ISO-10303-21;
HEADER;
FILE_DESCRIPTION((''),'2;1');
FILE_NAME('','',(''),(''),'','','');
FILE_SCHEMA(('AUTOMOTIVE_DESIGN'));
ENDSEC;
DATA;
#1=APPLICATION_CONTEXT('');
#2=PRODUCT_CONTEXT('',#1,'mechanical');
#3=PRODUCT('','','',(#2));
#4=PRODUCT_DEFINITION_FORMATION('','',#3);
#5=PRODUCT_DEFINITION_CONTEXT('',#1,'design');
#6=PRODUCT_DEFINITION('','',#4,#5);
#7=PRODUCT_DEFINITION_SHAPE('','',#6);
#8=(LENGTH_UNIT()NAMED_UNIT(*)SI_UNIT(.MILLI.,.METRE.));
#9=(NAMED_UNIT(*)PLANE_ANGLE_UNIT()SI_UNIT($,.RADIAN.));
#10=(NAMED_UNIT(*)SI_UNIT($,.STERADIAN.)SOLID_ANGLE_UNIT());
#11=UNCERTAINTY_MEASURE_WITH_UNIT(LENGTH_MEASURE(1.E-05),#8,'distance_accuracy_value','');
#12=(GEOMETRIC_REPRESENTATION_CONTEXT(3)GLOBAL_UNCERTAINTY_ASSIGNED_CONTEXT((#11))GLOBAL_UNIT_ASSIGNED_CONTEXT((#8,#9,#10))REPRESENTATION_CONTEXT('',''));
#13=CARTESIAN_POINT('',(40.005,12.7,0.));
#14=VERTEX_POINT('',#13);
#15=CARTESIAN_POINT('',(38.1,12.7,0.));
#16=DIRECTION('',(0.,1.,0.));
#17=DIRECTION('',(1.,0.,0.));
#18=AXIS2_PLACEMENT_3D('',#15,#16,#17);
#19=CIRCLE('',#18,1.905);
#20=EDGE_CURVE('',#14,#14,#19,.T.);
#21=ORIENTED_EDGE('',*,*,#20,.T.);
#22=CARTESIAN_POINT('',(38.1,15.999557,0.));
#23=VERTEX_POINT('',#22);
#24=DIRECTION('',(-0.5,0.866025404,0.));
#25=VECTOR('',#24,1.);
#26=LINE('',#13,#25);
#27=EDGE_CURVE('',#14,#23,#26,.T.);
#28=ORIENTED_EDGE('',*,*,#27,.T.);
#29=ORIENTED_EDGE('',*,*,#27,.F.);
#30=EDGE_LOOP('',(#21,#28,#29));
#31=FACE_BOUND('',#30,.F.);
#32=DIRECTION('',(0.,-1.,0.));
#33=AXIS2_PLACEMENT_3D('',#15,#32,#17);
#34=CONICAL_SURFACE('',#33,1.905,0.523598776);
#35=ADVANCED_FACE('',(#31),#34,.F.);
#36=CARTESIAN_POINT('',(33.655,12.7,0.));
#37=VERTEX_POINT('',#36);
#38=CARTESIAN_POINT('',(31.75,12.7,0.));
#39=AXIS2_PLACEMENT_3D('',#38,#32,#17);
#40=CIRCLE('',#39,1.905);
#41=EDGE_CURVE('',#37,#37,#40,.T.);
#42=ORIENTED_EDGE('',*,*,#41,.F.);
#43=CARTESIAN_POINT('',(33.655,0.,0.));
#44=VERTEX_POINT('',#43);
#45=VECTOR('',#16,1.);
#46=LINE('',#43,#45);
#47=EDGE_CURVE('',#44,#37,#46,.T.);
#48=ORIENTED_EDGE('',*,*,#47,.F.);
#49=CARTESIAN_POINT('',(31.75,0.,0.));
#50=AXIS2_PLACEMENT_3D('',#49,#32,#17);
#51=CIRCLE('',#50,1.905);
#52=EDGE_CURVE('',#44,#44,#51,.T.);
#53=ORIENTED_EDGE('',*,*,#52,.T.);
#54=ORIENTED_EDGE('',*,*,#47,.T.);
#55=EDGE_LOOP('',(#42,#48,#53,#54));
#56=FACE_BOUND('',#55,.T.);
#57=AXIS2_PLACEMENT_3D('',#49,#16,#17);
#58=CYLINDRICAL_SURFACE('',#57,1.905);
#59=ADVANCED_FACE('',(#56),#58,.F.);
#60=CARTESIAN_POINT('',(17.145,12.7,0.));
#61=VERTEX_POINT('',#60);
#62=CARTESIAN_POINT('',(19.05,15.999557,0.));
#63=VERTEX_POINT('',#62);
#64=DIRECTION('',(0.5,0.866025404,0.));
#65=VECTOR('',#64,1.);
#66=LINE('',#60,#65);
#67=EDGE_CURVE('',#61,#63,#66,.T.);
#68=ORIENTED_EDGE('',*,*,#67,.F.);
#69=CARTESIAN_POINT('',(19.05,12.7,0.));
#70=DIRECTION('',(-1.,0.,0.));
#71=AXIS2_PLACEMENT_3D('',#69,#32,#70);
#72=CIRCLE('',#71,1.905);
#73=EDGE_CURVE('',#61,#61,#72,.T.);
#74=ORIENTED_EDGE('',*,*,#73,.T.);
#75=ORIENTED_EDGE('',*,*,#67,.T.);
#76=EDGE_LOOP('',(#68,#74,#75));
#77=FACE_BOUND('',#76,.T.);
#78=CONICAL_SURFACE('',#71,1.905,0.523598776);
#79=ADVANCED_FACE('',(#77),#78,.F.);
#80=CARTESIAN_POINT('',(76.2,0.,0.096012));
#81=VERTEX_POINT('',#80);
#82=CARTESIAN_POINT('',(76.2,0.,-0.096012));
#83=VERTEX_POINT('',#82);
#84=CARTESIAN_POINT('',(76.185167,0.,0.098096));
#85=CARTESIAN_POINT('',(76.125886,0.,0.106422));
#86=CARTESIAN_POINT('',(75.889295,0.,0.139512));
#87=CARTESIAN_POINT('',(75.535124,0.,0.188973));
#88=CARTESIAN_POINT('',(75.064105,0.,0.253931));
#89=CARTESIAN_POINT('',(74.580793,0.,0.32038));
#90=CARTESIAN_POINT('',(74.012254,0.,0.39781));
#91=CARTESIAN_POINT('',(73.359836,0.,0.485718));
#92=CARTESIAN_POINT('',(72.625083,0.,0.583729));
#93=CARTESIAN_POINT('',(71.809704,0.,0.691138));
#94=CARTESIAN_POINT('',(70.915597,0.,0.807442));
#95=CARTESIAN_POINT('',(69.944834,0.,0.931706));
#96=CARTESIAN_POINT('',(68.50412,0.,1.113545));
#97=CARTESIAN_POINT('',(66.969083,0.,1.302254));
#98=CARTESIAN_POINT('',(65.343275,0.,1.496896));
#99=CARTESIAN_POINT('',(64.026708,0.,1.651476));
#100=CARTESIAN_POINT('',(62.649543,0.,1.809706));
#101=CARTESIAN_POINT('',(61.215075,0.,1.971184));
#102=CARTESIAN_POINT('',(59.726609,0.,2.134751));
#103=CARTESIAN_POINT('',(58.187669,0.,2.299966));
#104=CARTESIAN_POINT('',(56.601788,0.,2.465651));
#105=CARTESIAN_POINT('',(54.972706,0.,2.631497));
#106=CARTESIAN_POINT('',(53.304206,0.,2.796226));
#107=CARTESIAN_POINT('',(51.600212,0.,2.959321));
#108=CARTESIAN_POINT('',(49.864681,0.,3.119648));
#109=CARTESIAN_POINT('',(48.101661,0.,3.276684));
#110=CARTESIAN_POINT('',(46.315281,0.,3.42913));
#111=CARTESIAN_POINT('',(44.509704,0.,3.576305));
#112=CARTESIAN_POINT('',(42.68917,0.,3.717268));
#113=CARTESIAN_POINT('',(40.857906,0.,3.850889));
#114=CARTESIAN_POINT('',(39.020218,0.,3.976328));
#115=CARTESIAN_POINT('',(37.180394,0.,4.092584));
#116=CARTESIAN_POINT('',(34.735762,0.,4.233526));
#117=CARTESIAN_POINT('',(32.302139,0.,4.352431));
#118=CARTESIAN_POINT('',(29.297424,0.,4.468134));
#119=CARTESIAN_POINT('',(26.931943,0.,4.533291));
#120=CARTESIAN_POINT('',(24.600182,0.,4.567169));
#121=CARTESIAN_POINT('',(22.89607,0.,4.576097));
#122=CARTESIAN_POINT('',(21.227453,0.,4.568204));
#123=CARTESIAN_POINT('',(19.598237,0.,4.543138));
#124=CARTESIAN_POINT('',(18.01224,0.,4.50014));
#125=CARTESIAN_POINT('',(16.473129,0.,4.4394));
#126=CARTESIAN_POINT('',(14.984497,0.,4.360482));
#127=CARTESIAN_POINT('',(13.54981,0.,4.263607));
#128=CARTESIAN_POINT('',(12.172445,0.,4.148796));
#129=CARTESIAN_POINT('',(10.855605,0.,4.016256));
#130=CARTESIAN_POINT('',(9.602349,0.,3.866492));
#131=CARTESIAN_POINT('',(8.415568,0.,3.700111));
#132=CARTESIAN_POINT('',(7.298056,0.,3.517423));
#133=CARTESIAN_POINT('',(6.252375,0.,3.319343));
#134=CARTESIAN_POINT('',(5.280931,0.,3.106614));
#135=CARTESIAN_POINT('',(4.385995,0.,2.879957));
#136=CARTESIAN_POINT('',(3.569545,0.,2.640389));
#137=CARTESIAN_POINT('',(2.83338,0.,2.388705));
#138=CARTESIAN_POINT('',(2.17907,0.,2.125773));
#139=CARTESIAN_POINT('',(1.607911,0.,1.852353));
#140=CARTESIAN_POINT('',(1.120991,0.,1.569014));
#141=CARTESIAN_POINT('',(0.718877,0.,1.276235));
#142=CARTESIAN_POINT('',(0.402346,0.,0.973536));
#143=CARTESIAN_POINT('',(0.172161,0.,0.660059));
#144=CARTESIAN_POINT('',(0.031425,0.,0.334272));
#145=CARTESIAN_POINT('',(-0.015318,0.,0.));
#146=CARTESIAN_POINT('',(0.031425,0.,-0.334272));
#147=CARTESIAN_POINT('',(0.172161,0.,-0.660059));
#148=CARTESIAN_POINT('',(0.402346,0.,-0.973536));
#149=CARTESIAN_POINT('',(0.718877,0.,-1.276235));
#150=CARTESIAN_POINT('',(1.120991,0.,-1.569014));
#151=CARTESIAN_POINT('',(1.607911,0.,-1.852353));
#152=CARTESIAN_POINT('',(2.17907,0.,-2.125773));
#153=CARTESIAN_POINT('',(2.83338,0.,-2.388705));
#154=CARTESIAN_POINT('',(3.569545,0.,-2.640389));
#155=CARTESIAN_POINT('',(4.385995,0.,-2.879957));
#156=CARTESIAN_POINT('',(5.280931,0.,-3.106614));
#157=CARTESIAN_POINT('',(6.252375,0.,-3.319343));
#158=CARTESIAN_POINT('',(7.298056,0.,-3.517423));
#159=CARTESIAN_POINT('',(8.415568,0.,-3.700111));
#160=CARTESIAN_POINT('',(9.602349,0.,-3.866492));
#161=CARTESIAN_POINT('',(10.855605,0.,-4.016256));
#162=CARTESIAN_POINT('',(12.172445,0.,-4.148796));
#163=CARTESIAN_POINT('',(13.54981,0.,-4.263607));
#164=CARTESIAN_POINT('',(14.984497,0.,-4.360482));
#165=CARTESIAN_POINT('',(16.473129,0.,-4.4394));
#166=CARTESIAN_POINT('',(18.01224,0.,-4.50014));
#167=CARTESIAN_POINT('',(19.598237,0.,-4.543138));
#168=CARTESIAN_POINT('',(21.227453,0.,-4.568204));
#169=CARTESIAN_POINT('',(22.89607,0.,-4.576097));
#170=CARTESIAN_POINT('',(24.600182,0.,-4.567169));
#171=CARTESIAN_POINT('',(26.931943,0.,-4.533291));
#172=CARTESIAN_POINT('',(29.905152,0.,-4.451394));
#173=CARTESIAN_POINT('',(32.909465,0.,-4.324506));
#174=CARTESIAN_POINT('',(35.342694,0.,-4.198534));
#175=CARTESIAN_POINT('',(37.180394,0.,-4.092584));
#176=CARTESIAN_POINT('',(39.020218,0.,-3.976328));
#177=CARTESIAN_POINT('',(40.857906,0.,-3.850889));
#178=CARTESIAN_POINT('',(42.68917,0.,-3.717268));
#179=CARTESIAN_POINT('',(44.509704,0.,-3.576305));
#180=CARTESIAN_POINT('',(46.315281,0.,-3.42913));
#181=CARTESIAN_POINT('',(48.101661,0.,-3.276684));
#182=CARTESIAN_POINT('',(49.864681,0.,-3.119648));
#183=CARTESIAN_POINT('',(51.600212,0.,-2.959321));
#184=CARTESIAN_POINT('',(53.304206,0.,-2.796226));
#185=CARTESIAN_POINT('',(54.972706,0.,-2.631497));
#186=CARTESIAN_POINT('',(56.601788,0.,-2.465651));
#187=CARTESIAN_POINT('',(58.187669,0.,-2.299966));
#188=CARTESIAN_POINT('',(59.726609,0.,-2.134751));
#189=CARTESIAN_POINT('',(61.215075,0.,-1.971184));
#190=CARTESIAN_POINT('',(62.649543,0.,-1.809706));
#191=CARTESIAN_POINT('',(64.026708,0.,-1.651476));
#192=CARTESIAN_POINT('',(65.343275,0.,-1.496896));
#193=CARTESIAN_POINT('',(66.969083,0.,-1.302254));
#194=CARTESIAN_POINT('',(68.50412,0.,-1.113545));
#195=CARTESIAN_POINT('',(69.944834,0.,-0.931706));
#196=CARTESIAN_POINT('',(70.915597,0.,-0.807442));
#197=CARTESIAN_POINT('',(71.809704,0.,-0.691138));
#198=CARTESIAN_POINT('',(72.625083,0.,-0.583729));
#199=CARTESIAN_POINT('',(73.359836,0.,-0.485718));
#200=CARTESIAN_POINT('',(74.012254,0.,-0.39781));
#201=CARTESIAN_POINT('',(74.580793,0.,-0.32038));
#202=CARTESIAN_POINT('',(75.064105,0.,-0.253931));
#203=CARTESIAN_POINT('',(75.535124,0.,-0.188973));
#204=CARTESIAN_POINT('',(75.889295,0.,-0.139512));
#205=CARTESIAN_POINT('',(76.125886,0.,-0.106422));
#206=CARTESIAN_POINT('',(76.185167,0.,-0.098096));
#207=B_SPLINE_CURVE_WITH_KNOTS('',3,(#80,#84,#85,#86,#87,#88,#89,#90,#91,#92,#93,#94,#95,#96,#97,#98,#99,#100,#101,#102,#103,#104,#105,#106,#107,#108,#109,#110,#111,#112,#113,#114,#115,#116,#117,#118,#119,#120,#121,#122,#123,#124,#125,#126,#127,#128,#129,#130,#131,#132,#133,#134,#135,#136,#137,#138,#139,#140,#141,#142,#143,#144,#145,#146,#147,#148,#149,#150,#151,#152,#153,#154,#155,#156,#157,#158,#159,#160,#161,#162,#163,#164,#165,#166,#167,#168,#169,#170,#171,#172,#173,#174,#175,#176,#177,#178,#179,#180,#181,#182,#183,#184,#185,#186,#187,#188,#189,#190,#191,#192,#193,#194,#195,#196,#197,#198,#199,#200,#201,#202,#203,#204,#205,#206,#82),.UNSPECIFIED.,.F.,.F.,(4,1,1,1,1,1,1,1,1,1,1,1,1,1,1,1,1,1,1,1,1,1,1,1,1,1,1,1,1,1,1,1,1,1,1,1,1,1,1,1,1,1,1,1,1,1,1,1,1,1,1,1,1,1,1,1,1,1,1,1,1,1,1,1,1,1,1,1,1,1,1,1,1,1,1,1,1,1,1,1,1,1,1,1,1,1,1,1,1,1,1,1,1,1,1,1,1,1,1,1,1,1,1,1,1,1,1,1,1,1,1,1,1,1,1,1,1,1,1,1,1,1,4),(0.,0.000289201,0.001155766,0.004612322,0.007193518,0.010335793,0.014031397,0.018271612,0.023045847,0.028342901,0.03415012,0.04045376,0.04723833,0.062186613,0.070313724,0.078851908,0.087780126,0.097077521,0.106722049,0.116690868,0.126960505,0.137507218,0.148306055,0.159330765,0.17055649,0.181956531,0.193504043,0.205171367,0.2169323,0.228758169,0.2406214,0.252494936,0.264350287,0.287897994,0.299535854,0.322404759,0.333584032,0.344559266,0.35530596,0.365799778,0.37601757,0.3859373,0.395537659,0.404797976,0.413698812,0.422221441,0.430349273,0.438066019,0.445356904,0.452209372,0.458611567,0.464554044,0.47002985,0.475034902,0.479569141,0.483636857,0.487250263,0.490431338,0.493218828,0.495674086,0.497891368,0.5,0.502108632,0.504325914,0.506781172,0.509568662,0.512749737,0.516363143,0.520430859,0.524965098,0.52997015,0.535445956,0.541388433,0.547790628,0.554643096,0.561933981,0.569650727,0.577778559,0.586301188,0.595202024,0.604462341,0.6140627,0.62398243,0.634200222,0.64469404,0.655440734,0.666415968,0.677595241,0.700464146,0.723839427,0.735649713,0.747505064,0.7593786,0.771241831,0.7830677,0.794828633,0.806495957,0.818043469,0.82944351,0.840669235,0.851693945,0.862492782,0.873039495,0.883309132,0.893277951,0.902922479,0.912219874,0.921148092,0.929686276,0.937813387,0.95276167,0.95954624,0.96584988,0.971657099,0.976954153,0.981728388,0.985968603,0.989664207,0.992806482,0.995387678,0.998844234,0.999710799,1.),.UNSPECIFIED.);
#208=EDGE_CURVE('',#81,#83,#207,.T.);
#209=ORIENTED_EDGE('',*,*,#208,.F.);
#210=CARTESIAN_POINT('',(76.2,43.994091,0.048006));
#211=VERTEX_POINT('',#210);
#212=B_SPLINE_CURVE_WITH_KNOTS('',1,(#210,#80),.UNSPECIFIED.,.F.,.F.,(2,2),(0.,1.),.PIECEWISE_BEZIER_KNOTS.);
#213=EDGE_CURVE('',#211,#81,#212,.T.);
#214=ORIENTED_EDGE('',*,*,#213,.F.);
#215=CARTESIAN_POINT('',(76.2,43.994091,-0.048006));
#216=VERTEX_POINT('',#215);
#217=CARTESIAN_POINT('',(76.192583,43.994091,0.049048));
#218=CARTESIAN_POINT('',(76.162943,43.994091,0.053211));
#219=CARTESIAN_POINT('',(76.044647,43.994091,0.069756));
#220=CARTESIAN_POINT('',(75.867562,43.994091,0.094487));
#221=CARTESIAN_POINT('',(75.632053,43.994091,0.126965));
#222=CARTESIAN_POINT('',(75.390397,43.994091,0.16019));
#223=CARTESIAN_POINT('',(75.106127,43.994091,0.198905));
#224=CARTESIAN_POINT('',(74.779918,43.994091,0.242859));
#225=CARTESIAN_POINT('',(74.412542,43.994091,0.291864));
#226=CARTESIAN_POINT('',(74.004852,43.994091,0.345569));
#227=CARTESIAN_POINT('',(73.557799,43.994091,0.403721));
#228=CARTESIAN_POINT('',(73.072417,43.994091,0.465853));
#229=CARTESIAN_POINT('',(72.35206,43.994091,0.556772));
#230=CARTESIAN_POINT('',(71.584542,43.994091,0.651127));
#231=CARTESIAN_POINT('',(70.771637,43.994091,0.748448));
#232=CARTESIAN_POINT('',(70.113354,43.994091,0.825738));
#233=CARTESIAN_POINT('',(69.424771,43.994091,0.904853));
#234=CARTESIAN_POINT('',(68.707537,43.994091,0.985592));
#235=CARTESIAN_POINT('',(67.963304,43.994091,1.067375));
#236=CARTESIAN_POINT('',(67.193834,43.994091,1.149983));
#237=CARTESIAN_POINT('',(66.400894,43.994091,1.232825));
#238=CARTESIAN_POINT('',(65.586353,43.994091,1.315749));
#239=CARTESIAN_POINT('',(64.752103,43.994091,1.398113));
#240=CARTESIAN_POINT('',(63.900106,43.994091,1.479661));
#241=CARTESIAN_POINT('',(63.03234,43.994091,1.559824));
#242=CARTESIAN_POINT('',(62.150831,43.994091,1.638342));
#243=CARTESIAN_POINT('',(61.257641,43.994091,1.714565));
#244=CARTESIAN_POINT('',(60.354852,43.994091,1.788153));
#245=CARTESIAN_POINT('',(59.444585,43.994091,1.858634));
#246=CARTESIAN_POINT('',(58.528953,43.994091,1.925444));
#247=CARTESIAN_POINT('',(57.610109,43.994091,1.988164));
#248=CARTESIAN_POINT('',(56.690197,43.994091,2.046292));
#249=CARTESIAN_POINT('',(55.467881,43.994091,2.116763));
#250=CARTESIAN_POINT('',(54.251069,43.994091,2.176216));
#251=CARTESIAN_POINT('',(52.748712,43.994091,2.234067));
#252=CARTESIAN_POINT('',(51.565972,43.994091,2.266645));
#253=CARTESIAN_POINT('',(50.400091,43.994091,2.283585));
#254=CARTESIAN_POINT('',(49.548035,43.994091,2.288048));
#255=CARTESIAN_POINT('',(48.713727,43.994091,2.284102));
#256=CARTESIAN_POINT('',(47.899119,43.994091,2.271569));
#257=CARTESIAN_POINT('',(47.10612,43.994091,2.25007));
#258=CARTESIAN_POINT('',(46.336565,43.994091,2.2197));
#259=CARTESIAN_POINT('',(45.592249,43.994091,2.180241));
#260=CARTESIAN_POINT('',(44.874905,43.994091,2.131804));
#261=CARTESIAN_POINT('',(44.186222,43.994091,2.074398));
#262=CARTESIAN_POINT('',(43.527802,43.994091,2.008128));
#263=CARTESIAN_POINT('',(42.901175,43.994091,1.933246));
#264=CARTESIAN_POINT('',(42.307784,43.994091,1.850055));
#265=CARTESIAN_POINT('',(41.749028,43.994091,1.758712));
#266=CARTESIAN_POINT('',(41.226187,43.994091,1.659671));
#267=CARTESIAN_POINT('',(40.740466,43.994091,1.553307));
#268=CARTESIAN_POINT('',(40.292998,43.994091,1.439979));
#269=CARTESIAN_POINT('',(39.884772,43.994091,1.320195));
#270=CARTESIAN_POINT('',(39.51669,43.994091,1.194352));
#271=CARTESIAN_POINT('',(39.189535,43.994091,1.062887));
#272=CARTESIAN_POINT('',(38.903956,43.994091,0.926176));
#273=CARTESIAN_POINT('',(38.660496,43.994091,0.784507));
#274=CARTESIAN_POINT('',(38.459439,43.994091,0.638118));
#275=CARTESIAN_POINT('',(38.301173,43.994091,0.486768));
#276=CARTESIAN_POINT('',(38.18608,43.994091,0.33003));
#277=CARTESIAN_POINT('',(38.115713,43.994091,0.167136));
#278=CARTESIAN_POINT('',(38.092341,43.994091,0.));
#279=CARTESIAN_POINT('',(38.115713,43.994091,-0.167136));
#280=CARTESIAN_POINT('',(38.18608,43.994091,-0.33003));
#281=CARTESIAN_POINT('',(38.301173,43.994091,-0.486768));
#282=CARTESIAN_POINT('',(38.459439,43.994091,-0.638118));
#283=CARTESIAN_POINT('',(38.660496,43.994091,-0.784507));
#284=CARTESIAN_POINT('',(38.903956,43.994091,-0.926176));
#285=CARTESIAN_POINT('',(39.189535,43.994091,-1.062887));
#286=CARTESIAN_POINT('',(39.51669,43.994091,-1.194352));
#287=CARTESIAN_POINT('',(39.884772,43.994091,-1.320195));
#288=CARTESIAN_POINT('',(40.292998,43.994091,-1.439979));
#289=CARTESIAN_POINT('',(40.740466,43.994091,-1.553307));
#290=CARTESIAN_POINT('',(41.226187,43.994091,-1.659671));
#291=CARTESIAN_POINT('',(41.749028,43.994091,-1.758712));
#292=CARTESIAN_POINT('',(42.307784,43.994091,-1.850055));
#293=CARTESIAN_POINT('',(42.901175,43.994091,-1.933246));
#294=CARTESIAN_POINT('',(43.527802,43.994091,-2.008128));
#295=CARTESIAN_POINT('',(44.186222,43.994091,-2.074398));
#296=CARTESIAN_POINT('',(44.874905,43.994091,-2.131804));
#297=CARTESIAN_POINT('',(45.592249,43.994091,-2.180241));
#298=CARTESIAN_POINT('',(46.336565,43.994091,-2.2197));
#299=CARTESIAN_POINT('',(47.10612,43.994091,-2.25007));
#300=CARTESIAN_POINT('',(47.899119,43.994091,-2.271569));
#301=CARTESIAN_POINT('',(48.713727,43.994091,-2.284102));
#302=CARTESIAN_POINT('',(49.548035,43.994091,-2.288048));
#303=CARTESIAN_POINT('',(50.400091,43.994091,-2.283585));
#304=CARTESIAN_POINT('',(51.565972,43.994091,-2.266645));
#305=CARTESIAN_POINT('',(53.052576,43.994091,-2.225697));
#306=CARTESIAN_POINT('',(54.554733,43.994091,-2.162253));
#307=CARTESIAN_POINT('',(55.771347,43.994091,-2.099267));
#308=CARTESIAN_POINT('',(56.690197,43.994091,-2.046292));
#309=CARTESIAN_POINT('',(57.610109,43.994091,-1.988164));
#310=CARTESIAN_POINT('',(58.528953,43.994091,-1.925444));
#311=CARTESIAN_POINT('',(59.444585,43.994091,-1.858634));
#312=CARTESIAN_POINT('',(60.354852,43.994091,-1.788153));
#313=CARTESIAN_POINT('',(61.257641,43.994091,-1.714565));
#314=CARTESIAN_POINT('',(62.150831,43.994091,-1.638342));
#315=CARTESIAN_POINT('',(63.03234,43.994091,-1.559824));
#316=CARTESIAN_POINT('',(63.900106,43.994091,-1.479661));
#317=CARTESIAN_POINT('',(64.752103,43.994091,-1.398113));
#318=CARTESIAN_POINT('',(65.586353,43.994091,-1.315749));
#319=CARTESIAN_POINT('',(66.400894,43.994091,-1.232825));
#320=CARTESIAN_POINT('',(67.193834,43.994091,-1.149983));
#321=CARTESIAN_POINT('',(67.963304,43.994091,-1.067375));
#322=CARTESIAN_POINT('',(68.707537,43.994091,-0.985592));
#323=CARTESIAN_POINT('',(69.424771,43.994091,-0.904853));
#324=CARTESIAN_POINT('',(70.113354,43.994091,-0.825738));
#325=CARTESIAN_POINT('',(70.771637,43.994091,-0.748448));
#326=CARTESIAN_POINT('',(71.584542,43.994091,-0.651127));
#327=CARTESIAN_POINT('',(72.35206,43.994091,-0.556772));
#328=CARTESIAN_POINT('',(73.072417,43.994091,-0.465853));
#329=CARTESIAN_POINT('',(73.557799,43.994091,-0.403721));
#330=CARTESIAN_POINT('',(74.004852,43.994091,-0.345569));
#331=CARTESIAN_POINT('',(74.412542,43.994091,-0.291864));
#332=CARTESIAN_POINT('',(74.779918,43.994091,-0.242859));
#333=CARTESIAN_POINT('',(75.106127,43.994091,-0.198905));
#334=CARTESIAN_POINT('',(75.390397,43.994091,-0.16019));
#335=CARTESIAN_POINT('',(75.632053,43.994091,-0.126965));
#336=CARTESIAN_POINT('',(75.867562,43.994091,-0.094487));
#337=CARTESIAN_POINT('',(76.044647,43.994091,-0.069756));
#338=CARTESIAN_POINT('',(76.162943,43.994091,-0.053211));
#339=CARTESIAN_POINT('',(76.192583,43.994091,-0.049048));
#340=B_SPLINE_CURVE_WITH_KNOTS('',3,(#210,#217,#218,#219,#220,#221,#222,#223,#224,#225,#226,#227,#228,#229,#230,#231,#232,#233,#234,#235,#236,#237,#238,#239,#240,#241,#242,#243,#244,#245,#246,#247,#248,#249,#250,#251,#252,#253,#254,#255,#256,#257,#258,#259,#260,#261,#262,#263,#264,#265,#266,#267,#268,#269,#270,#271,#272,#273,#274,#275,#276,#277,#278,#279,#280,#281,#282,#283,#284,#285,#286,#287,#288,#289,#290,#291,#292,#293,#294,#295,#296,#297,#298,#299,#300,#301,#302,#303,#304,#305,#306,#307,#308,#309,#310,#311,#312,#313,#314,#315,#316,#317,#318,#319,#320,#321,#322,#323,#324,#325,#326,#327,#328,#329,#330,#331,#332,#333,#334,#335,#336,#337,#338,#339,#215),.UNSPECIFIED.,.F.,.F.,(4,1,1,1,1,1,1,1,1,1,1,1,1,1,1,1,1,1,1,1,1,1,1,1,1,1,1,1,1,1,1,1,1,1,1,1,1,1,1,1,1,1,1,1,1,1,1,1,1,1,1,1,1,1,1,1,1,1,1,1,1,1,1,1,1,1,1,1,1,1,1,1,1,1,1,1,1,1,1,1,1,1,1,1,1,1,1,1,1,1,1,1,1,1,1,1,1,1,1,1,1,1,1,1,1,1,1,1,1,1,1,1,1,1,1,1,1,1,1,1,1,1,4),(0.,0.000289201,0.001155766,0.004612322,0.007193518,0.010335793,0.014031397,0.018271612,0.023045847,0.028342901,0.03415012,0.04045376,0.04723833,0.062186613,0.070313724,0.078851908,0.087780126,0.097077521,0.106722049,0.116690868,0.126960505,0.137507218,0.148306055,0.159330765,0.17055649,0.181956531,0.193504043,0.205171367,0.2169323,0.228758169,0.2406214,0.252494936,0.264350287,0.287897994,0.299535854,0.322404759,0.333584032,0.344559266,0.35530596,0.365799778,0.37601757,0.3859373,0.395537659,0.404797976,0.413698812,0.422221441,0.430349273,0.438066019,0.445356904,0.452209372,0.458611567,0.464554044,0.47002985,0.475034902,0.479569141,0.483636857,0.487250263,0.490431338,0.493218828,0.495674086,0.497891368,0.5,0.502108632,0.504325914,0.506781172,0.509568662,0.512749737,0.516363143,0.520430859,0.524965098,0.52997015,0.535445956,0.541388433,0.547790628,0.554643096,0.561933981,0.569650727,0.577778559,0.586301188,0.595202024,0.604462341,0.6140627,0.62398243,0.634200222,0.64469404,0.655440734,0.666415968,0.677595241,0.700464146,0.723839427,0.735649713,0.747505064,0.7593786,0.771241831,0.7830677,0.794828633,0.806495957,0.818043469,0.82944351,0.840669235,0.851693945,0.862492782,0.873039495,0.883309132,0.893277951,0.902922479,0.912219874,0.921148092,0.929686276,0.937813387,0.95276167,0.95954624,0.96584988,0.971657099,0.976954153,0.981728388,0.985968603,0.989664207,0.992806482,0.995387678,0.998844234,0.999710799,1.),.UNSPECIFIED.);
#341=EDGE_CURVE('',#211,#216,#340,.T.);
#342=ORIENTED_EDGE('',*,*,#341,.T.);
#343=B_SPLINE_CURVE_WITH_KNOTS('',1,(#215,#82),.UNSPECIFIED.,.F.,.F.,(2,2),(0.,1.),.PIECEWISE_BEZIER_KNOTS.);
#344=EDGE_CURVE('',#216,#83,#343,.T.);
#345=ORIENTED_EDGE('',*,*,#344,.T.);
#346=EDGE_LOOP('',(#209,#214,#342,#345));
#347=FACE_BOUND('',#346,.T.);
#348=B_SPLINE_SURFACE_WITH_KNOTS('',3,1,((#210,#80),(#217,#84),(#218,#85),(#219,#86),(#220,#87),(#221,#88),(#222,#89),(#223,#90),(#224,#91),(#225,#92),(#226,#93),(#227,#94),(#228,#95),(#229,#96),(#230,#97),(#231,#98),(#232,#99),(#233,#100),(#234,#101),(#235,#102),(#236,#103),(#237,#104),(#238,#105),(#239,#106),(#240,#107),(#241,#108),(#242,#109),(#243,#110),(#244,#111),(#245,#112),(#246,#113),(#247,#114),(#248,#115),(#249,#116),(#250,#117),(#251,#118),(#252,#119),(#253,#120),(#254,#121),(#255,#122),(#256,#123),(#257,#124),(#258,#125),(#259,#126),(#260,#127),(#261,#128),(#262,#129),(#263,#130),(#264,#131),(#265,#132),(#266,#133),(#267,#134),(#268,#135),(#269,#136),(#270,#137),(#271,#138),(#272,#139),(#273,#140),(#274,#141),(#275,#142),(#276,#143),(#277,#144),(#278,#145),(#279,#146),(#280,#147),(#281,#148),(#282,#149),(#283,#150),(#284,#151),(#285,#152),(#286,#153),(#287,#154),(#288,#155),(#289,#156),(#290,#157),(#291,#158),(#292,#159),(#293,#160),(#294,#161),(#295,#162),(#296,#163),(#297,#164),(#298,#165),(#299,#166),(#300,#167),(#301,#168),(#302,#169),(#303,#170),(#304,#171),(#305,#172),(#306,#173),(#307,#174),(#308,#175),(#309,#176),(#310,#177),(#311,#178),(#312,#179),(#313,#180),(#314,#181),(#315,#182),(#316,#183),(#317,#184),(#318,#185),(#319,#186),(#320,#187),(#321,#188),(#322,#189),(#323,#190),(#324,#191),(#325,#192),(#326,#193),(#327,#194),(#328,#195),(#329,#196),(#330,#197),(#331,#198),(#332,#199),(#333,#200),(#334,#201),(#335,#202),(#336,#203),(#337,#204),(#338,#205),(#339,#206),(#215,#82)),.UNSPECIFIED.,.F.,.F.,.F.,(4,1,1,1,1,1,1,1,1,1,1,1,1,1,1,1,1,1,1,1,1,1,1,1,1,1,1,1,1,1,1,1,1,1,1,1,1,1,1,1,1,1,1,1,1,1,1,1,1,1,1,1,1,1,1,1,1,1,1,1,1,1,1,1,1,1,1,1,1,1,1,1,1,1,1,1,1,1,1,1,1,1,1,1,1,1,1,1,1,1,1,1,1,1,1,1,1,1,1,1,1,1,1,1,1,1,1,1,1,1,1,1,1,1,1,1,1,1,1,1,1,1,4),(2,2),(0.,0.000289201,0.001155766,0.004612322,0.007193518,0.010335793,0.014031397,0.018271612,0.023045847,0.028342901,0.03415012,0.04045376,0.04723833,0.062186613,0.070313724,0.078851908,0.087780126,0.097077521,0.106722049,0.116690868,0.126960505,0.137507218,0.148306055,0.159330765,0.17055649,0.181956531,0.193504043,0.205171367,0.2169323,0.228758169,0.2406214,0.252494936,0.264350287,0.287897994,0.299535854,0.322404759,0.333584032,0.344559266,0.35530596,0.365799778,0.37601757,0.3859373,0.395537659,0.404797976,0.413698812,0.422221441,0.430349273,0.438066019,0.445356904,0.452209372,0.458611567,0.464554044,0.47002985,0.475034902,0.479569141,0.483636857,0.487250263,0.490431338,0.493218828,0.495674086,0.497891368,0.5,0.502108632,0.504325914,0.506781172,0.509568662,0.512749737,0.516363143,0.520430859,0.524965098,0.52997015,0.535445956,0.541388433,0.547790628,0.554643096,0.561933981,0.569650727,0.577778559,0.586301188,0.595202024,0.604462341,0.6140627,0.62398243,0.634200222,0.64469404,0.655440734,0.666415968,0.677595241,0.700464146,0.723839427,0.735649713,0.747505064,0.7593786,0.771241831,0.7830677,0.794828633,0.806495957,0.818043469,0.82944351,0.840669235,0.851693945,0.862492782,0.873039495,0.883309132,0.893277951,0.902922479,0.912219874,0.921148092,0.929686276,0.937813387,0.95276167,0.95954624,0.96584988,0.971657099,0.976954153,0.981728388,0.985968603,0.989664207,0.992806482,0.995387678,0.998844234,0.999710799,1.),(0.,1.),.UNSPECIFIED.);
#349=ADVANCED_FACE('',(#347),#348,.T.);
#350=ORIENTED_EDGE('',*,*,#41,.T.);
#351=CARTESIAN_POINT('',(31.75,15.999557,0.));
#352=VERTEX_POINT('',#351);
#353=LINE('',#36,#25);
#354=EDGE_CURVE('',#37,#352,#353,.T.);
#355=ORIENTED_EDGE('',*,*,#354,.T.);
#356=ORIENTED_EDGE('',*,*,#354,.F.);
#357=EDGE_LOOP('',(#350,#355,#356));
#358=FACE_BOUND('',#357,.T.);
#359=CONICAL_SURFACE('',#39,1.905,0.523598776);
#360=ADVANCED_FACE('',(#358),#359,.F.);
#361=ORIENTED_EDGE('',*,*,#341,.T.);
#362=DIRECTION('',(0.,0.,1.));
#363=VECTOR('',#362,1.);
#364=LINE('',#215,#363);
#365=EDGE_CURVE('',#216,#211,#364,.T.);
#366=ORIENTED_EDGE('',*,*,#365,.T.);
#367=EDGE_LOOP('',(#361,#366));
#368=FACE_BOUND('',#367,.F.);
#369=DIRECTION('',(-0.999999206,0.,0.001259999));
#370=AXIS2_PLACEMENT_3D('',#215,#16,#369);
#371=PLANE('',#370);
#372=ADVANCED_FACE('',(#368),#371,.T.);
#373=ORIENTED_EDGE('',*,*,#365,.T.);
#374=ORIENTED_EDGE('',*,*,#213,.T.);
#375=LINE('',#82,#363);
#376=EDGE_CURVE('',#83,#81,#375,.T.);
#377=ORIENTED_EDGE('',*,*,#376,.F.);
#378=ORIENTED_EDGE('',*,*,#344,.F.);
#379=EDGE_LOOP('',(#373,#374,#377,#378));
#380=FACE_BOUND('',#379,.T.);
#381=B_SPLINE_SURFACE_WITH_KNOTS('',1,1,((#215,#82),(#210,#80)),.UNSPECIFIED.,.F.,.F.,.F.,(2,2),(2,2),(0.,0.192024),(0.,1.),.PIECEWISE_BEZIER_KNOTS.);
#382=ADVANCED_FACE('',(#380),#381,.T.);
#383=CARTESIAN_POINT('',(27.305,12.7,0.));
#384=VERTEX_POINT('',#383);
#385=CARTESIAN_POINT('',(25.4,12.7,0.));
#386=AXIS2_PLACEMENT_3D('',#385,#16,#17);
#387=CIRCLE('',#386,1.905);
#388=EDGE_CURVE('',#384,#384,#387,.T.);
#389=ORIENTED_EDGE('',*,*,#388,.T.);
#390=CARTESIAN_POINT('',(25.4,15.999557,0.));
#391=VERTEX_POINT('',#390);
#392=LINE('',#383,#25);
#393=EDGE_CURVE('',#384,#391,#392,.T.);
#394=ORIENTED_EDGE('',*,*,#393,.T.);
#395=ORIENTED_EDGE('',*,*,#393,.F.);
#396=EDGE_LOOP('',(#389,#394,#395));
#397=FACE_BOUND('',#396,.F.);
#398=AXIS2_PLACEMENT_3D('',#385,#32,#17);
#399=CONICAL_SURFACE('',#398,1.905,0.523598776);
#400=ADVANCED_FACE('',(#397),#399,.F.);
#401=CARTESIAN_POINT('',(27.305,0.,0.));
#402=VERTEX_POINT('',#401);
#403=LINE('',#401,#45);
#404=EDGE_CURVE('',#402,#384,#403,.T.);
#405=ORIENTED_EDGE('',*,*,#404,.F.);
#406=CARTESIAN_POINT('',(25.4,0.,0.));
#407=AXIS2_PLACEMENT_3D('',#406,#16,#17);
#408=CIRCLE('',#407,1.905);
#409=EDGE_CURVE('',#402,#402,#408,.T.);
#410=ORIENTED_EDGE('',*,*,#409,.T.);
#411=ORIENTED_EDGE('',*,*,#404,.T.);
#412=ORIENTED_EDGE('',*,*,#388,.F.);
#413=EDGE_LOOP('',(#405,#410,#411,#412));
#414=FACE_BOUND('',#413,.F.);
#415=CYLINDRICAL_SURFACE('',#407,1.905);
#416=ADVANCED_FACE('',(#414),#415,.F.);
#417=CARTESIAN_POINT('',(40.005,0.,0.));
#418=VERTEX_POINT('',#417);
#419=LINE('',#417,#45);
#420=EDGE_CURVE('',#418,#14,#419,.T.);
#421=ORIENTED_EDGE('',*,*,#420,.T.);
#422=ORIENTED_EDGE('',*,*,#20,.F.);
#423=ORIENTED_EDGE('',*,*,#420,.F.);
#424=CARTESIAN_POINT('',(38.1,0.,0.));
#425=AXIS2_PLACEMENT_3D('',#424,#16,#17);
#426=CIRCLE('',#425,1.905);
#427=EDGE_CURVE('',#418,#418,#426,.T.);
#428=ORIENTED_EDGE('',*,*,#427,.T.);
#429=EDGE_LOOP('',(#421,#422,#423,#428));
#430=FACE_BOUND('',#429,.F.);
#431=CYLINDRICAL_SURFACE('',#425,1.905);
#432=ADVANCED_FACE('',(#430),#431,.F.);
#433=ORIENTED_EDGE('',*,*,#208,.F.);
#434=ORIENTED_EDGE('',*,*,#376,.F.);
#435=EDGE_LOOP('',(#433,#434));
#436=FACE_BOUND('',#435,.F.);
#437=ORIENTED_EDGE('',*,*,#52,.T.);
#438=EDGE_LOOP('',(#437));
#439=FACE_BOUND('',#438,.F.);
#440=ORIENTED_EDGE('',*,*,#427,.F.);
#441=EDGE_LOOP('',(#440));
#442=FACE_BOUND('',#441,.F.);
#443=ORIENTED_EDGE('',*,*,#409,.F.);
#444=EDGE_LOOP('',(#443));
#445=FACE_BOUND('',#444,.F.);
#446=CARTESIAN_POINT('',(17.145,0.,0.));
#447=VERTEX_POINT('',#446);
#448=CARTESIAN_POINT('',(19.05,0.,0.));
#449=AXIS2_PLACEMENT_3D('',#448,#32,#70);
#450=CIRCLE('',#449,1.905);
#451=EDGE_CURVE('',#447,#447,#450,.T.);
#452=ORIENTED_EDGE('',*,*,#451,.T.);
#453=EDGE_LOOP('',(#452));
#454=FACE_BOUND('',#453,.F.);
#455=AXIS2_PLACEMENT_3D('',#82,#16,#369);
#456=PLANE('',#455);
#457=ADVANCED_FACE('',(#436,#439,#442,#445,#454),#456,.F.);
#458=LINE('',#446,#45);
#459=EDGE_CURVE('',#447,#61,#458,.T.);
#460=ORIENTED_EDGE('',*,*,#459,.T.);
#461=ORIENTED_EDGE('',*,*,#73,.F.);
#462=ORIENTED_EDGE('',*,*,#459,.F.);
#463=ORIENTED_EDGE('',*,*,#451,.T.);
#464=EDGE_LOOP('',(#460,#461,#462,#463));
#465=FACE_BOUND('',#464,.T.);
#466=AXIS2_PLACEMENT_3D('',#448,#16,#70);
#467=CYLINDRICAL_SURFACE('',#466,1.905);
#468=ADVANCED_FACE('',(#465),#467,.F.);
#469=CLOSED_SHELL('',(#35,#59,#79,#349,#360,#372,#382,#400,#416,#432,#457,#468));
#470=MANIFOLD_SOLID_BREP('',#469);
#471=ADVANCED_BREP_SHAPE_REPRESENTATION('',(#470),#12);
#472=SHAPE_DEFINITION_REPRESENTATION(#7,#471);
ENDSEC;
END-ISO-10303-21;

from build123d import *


with BuildPart() as part:
    # Sketch5 → Loft11 section 0
    with BuildSketch(Plane(origin=(0, 43.994090512, 0), x_dir=(1, 0, 0), z_dir=(0, 1, 0))):
        with BuildLine():
            Line((76.2, 0.048006), (76.2, -0.048006))
            add(Edge.make_bspline(
                [(76.2, -0.048006), (76.192583251, -0.049047765), (76.162942912, -0.053211081), (76.044647253, -0.069755857), (75.867562125, -0.094486743), (75.632052521, -0.126965392), (75.390396557, -0.160190201), (75.106127116, -0.198904989), (74.779917937, -0.242859006), (74.412541545, -0.291864294), (74.004851816, -0.345569023), (73.55779868, -0.403720926), (73.072416984, -0.465853222), (72.352060102, -0.55677244), (71.584541596, -0.651127112), (70.771637318, -0.748448048), (70.113353772, -0.825737809), (69.424771293, -0.904853153), (68.707537282, -0.985592031), (67.963304352, -1.067375261), (67.193834288, -1.14998319), (66.400894079, -1.232825488), (65.586352847, -1.315748636), (64.752102975, -1.398113207), (63.90010602, -1.479660513), (63.032340473, -1.559824173), (62.150830619, -1.638342101), (61.257640656, -1.714565201), (60.354852072, -1.788152536), (59.444584786, -1.858634165), (58.528953151, -1.925444296), (57.610108942, -1.988163902), (56.690197069, -2.046291991), (55.467880801, -2.116763144), (54.251069434, -2.176215597), (52.748712156, -2.234066929), (51.565971548, -2.266645454), (50.400091132, -2.283584551), (49.548035029, -2.288048273), (48.713726655, -2.284102235), (47.899118606, -2.271569022), (47.10611977, -2.250069868), (46.336564553, -2.21969991), (45.59224861, -2.180240934), (44.874904805, -2.131803537), (44.186222319, -2.074397819), (43.527802298, -2.008128116), (42.901174603, -1.933245819), (42.307783855, -1.850055304), (41.749027942, -1.758711647), (41.226187427, -1.659671366), (40.740465618, -1.55330687), (40.292997688, -1.439978722), (39.8847724, -1.320194614), (39.516689892, -1.194352348), (39.189535118, -1.062886557), (38.903955697, -0.926176493), (38.660495695, -0.784506781), (38.45943861, -0.638117579), (38.30117294, -0.486768084), (38.186080347, -0.330029549), (38.115712554, -0.167135854), (38.092341043, 0), (38.115712554, 0.167135854), (38.186080347, 0.330029549), (38.30117294, 0.486768084), (38.45943861, 0.638117579), (38.660495695, 0.784506781), (38.903955697, 0.926176493), (39.189535118, 1.062886557), (39.516689892, 1.194352348), (39.8847724, 1.320194614), (40.292997688, 1.439978722), (40.740465618, 1.55330687), (41.226187427, 1.659671366), (41.749027942, 1.758711647), (42.307783855, 1.850055304), (42.901174603, 1.933245819), (43.527802298, 2.008128116), (44.186222319, 2.074397819), (44.874904805, 2.131803537), (45.59224861, 2.180240934), (46.336564553, 2.21969991), (47.10611977, 2.250069868), (47.899118606, 2.271569022), (48.713726655, 2.284102235), (49.548035029, 2.288048273), (50.400091132, 2.283584551), (51.565971548, 2.266645454), (53.052575769, 2.225697023), (54.554732583, 2.162253193), (55.771346838, 2.09926718), (56.690197069, 2.046291991), (57.610108942, 1.988163902), (58.528953151, 1.925444296), (59.444584786, 1.858634165), (60.354852072, 1.788152536), (61.257640656, 1.714565201), (62.150830619, 1.638342101), (63.032340473, 1.559824173), (63.90010602, 1.479660513), (64.752102975, 1.398113207), (65.586352847, 1.315748636), (66.400894079, 1.232825488), (67.193834288, 1.14998319), (67.963304352, 1.067375261), (68.707537282, 0.985592031), (69.424771293, 0.904853153), (70.113353772, 0.825737809), (70.771637318, 0.748448048), (71.584541596, 0.651127112), (72.352060102, 0.55677244), (73.072416984, 0.465853222), (73.55779868, 0.403720926), (74.004851816, 0.345569023), (74.412541545, 0.291864294), (74.779917937, 0.242859006), (75.106127116, 0.198904989), (75.390396557, 0.160190201), (75.632052521, 0.126965392), (75.867562125, 0.094486743), (76.044647253, 0.069755857), (76.162942912, 0.053211081), (76.192583251, 0.049047765), (76.2, 0.048006)],
                knots=[0, 0, 0, 0, 0.000289201, 0.001155766, 0.004612322, 0.007193518, 0.010335793, 0.014031397, 0.018271612, 0.023045847, 0.028342901, 0.03415012, 0.04045376, 0.04723833, 0.062186613, 0.070313724, 0.078851908, 0.087780126, 0.097077521, 0.106722049, 0.116690868, 0.126960505, 0.137507218, 0.148306055, 0.159330765, 0.17055649, 0.181956531, 0.193504043, 0.205171367, 0.2169323, 0.228758169, 0.2406214, 0.252494936, 0.264350287, 0.287897994, 0.299535854, 0.322404759, 0.333584032, 0.344559266, 0.35530596, 0.365799778, 0.37601757, 0.3859373, 0.395537659, 0.404797976, 0.413698812, 0.422221441, 0.430349273, 0.438066019, 0.445356904, 0.452209372, 0.458611567, 0.464554044, 0.47002985, 0.475034902, 0.479569141, 0.483636857, 0.487250263, 0.490431338, 0.493218828, 0.495674086, 0.497891368, 0.5, 0.502108632, 0.504325914, 0.506781172, 0.509568662, 0.512749737, 0.516363143, 0.520430859, 0.524965098, 0.52997015, 0.535445956, 0.541388433, 0.547790628, 0.554643096, 0.561933981, 0.569650727, 0.577778559, 0.586301188, 0.595202024, 0.604462341, 0.6140627, 0.62398243, 0.634200222, 0.64469404, 0.655440734, 0.666415968, 0.677595241, 0.700464146, 0.723839427, 0.735649713, 0.747505064, 0.7593786, 0.771241831, 0.7830677, 0.794828633, 0.806495957, 0.818043469, 0.82944351, 0.840669235, 0.851693945, 0.862492782, 0.873039495, 0.883309132, 0.893277951, 0.902922479, 0.912219874, 0.921148092, 0.929686276, 0.937813387, 0.95276167, 0.95954624, 0.96584988, 0.971657099, 0.976954153, 0.981728388, 0.985968603, 0.989664207, 0.992806482, 0.995387678, 0.998844234, 0.999710799, 1, 1, 1, 1], degree=3))
        make_face()
    # Sketch3 → Loft11 section 1
    with BuildSketch(Plane(origin=(0, 0, 0), x_dir=(1, 0, 0), z_dir=(0, 1, 0))):
        with BuildLine():
            Line((76.2, 0.096012), (76.2, -0.096012))
            add(Edge.make_bspline(
                [(76.2, -0.096012), (76.185166502, -0.09809553), (76.125885823, -0.106422162), (75.889294507, -0.139511713), (75.53512425, -0.188973486), (75.064105041, -0.253930784), (74.580793115, -0.320380401), (74.012254232, -0.397809978), (73.359835874, -0.485718012), (72.62508309, -0.583728588), (71.809703632, -0.691138045), (70.915597359, -0.807441851), (69.944833968, -0.931706445), (68.504120203, -1.113544881), (66.969083191, -1.302254225), (65.343274636, -1.496896097), (64.026707544, -1.651475618), (62.649542587, -1.809706305), (61.215074564, -1.971184062), (59.726608705, -2.134750522), (58.187668577, -2.299966381), (56.601788159, -2.465650976), (54.972705694, -2.631497273), (53.30420595, -2.796226414), (51.60021204, -2.959321026), (49.864680946, -3.119648346), (48.101661238, -3.276684202), (46.315281313, -3.429130403), (44.509704144, -3.576305072), (42.689169571, -3.71726833), (40.857906302, -3.850888591), (39.020217884, -3.976327805), (37.180394137, -4.092583982), (34.735761601, -4.233526287), (32.302138868, -4.352431193), (29.297424312, -4.468133858), (26.931943095, -4.533290908), (24.600182263, -4.567169102), (22.896070057, -4.576096546), (21.22745331, -4.56820447), (19.598237213, -4.543138044), (18.01223954, -4.500139735), (16.473129105, -4.43939982), (14.98449722, -4.360481867), (13.549809609, -4.263607073), (12.172444638, -4.148795638), (10.855604596, -4.016256231), (9.602349205, -3.866491638), (8.41556771, -3.700110609), (7.298055884, -3.517423293), (6.252374854, -3.319342733), (5.280931237, -3.10661374), (4.385995376, -2.879957444), (3.569544801, -2.640389227), (2.833379783, -2.388704697), (2.179070236, -2.125773113), (1.607911394, -1.852352986), (1.120991389, -1.569013562), (0.71887722, -1.276235157), (0.40234588, -0.973536168), (0.172160694, -0.660059098), (0.031425108, -0.334271708), (-0.015317913, 0), (0.031425108, 0.334271708), (0.172160694, 0.660059098), (0.40234588, 0.973536168), (0.71887722, 1.276235157), (1.120991389, 1.569013562), (1.607911394, 1.852352986), (2.179070236, 2.125773113), (2.833379783, 2.388704697), (3.569544801, 2.640389227), (4.385995376, 2.879957444), (5.280931237, 3.10661374), (6.252374854, 3.319342733), (7.298055884, 3.517423293), (8.41556771, 3.700110609), (9.602349205, 3.866491638), (10.855604596, 4.016256231), (12.172444638, 4.148795638), (13.549809609, 4.263607073), (14.98449722, 4.360481867), (16.473129105, 4.43939982), (18.01223954, 4.500139735), (19.598237213, 4.543138044), (21.22745331, 4.56820447), (22.896070057, 4.576096546), (24.600182263, 4.567169102), (26.931943095, 4.533290908), (29.905151537, 4.451394045), (32.909465167, 4.324506385), (35.342693676, 4.198534359), (37.180394137, 4.092583982), (39.020217884, 3.976327805), (40.857906302, 3.850888591), (42.689169571, 3.71726833), (44.509704144, 3.576305072), (46.315281313, 3.429130403), (48.101661238, 3.276684202), (49.864680946, 3.119648346), (51.60021204, 2.959321026), (53.30420595, 2.796226414), (54.972705694, 2.631497273), (56.601788159, 2.465650976), (58.187668577, 2.299966381), (59.726608705, 2.134750522), (61.215074564, 1.971184062), (62.649542587, 1.809706305), (64.026707544, 1.651475618), (65.343274636, 1.496896097), (66.969083191, 1.302254225), (68.504120203, 1.113544881), (69.944833968, 0.931706445), (70.915597359, 0.807441851), (71.809703632, 0.691138045), (72.62508309, 0.583728588), (73.359835874, 0.485718012), (74.012254232, 0.397809978), (74.580793115, 0.320380401), (75.064105041, 0.253930784), (75.53512425, 0.188973486), (75.889294507, 0.139511713), (76.125885823, 0.106422162), (76.185166502, 0.09809553), (76.2, 0.096012)],
                knots=[0, 0, 0, 0, 0.000289201, 0.001155766, 0.004612322, 0.007193518, 0.010335793, 0.014031397, 0.018271612, 0.023045847, 0.028342901, 0.03415012, 0.04045376, 0.04723833, 0.062186613, 0.070313724, 0.078851908, 0.087780126, 0.097077521, 0.106722049, 0.116690868, 0.126960505, 0.137507218, 0.148306055, 0.159330765, 0.17055649, 0.181956531, 0.193504043, 0.205171367, 0.2169323, 0.228758169, 0.2406214, 0.252494936, 0.264350287, 0.287897994, 0.299535854, 0.322404759, 0.333584032, 0.344559266, 0.35530596, 0.365799778, 0.37601757, 0.3859373, 0.395537659, 0.404797976, 0.413698812, 0.422221441, 0.430349273, 0.438066019, 0.445356904, 0.452209372, 0.458611567, 0.464554044, 0.47002985, 0.475034902, 0.479569141, 0.483636857, 0.487250263, 0.490431338, 0.493218828, 0.495674086, 0.497891368, 0.5, 0.502108632, 0.504325914, 0.506781172, 0.509568662, 0.512749737, 0.516363143, 0.520430859, 0.524965098, 0.52997015, 0.535445956, 0.541388433, 0.547790628, 0.554643096, 0.561933981, 0.569650727, 0.577778559, 0.586301188, 0.595202024, 0.604462341, 0.6140627, 0.62398243, 0.634200222, 0.64469404, 0.655440734, 0.666415968, 0.677595241, 0.700464146, 0.723839427, 0.735649713, 0.747505064, 0.7593786, 0.771241831, 0.7830677, 0.794828633, 0.806495957, 0.818043469, 0.82944351, 0.840669235, 0.851693945, 0.862492782, 0.873039495, 0.883309132, 0.893277951, 0.902922479, 0.912219874, 0.921148092, 0.929686276, 0.937813387, 0.95276167, 0.95954624, 0.96584988, 0.971657099, 0.976954153, 0.981728388, 0.985968603, 0.989664207, 0.992806482, 0.995387678, 0.998844234, 0.999710799, 1, 1, 1, 1], degree=3))
        make_face()
    loft()

    # Sketch8 → Cut-Revolve1 (revolve, cut)
    with BuildSketch(Plane.XY, mode=Mode.PRIVATE) as cut_revolve1_sk:
        Polygon((20.955, 0), (20.955, 12.7), (19.05, 15.999556788), (19.05, 0), align=None)
    cut_revolve1 = revolve(cut_revolve1_sk.sketch.rotate(Axis((19.05, 15.999556788, 0), (0, -1, 0)), 180), axis=Axis((19.05, 15.999556788, 0), (0, -1, 0)), mode=Mode.SUBTRACT)

    # Mirror1: Cut-Revolve1 across plane
    add(cut_revolve1.mirror(Plane(origin=(22.225, 0, 0), x_dir=(0, 0, 1), z_dir=(1, 0, 0))), mode=Mode.SUBTRACT)

    # Mirror2: Cut-Revolve1 across plane
    add(cut_revolve1.mirror(Plane(origin=(28.575, 0, 0), x_dir=(0, 0, 1), z_dir=(1, 0, 0))), mode=Mode.SUBTRACT)

    # Mirror2 copy 1 sketch → Mirror2 copy 1 (revolve, cut)
    with BuildSketch(Plane(origin=(12.7, 0, 0), x_dir=(1, 0, 0), z_dir=(0, 0, 1))):
        Polygon((20.955, 0), (20.955, 12.7), (19.05, 15.999556788), (19.05, 0), align=None)
    revolve(axis=Axis((31.75, 15.999556788, 0), (0, -1, 0)), mode=Mode.SUBTRACT)


solid = part.part
